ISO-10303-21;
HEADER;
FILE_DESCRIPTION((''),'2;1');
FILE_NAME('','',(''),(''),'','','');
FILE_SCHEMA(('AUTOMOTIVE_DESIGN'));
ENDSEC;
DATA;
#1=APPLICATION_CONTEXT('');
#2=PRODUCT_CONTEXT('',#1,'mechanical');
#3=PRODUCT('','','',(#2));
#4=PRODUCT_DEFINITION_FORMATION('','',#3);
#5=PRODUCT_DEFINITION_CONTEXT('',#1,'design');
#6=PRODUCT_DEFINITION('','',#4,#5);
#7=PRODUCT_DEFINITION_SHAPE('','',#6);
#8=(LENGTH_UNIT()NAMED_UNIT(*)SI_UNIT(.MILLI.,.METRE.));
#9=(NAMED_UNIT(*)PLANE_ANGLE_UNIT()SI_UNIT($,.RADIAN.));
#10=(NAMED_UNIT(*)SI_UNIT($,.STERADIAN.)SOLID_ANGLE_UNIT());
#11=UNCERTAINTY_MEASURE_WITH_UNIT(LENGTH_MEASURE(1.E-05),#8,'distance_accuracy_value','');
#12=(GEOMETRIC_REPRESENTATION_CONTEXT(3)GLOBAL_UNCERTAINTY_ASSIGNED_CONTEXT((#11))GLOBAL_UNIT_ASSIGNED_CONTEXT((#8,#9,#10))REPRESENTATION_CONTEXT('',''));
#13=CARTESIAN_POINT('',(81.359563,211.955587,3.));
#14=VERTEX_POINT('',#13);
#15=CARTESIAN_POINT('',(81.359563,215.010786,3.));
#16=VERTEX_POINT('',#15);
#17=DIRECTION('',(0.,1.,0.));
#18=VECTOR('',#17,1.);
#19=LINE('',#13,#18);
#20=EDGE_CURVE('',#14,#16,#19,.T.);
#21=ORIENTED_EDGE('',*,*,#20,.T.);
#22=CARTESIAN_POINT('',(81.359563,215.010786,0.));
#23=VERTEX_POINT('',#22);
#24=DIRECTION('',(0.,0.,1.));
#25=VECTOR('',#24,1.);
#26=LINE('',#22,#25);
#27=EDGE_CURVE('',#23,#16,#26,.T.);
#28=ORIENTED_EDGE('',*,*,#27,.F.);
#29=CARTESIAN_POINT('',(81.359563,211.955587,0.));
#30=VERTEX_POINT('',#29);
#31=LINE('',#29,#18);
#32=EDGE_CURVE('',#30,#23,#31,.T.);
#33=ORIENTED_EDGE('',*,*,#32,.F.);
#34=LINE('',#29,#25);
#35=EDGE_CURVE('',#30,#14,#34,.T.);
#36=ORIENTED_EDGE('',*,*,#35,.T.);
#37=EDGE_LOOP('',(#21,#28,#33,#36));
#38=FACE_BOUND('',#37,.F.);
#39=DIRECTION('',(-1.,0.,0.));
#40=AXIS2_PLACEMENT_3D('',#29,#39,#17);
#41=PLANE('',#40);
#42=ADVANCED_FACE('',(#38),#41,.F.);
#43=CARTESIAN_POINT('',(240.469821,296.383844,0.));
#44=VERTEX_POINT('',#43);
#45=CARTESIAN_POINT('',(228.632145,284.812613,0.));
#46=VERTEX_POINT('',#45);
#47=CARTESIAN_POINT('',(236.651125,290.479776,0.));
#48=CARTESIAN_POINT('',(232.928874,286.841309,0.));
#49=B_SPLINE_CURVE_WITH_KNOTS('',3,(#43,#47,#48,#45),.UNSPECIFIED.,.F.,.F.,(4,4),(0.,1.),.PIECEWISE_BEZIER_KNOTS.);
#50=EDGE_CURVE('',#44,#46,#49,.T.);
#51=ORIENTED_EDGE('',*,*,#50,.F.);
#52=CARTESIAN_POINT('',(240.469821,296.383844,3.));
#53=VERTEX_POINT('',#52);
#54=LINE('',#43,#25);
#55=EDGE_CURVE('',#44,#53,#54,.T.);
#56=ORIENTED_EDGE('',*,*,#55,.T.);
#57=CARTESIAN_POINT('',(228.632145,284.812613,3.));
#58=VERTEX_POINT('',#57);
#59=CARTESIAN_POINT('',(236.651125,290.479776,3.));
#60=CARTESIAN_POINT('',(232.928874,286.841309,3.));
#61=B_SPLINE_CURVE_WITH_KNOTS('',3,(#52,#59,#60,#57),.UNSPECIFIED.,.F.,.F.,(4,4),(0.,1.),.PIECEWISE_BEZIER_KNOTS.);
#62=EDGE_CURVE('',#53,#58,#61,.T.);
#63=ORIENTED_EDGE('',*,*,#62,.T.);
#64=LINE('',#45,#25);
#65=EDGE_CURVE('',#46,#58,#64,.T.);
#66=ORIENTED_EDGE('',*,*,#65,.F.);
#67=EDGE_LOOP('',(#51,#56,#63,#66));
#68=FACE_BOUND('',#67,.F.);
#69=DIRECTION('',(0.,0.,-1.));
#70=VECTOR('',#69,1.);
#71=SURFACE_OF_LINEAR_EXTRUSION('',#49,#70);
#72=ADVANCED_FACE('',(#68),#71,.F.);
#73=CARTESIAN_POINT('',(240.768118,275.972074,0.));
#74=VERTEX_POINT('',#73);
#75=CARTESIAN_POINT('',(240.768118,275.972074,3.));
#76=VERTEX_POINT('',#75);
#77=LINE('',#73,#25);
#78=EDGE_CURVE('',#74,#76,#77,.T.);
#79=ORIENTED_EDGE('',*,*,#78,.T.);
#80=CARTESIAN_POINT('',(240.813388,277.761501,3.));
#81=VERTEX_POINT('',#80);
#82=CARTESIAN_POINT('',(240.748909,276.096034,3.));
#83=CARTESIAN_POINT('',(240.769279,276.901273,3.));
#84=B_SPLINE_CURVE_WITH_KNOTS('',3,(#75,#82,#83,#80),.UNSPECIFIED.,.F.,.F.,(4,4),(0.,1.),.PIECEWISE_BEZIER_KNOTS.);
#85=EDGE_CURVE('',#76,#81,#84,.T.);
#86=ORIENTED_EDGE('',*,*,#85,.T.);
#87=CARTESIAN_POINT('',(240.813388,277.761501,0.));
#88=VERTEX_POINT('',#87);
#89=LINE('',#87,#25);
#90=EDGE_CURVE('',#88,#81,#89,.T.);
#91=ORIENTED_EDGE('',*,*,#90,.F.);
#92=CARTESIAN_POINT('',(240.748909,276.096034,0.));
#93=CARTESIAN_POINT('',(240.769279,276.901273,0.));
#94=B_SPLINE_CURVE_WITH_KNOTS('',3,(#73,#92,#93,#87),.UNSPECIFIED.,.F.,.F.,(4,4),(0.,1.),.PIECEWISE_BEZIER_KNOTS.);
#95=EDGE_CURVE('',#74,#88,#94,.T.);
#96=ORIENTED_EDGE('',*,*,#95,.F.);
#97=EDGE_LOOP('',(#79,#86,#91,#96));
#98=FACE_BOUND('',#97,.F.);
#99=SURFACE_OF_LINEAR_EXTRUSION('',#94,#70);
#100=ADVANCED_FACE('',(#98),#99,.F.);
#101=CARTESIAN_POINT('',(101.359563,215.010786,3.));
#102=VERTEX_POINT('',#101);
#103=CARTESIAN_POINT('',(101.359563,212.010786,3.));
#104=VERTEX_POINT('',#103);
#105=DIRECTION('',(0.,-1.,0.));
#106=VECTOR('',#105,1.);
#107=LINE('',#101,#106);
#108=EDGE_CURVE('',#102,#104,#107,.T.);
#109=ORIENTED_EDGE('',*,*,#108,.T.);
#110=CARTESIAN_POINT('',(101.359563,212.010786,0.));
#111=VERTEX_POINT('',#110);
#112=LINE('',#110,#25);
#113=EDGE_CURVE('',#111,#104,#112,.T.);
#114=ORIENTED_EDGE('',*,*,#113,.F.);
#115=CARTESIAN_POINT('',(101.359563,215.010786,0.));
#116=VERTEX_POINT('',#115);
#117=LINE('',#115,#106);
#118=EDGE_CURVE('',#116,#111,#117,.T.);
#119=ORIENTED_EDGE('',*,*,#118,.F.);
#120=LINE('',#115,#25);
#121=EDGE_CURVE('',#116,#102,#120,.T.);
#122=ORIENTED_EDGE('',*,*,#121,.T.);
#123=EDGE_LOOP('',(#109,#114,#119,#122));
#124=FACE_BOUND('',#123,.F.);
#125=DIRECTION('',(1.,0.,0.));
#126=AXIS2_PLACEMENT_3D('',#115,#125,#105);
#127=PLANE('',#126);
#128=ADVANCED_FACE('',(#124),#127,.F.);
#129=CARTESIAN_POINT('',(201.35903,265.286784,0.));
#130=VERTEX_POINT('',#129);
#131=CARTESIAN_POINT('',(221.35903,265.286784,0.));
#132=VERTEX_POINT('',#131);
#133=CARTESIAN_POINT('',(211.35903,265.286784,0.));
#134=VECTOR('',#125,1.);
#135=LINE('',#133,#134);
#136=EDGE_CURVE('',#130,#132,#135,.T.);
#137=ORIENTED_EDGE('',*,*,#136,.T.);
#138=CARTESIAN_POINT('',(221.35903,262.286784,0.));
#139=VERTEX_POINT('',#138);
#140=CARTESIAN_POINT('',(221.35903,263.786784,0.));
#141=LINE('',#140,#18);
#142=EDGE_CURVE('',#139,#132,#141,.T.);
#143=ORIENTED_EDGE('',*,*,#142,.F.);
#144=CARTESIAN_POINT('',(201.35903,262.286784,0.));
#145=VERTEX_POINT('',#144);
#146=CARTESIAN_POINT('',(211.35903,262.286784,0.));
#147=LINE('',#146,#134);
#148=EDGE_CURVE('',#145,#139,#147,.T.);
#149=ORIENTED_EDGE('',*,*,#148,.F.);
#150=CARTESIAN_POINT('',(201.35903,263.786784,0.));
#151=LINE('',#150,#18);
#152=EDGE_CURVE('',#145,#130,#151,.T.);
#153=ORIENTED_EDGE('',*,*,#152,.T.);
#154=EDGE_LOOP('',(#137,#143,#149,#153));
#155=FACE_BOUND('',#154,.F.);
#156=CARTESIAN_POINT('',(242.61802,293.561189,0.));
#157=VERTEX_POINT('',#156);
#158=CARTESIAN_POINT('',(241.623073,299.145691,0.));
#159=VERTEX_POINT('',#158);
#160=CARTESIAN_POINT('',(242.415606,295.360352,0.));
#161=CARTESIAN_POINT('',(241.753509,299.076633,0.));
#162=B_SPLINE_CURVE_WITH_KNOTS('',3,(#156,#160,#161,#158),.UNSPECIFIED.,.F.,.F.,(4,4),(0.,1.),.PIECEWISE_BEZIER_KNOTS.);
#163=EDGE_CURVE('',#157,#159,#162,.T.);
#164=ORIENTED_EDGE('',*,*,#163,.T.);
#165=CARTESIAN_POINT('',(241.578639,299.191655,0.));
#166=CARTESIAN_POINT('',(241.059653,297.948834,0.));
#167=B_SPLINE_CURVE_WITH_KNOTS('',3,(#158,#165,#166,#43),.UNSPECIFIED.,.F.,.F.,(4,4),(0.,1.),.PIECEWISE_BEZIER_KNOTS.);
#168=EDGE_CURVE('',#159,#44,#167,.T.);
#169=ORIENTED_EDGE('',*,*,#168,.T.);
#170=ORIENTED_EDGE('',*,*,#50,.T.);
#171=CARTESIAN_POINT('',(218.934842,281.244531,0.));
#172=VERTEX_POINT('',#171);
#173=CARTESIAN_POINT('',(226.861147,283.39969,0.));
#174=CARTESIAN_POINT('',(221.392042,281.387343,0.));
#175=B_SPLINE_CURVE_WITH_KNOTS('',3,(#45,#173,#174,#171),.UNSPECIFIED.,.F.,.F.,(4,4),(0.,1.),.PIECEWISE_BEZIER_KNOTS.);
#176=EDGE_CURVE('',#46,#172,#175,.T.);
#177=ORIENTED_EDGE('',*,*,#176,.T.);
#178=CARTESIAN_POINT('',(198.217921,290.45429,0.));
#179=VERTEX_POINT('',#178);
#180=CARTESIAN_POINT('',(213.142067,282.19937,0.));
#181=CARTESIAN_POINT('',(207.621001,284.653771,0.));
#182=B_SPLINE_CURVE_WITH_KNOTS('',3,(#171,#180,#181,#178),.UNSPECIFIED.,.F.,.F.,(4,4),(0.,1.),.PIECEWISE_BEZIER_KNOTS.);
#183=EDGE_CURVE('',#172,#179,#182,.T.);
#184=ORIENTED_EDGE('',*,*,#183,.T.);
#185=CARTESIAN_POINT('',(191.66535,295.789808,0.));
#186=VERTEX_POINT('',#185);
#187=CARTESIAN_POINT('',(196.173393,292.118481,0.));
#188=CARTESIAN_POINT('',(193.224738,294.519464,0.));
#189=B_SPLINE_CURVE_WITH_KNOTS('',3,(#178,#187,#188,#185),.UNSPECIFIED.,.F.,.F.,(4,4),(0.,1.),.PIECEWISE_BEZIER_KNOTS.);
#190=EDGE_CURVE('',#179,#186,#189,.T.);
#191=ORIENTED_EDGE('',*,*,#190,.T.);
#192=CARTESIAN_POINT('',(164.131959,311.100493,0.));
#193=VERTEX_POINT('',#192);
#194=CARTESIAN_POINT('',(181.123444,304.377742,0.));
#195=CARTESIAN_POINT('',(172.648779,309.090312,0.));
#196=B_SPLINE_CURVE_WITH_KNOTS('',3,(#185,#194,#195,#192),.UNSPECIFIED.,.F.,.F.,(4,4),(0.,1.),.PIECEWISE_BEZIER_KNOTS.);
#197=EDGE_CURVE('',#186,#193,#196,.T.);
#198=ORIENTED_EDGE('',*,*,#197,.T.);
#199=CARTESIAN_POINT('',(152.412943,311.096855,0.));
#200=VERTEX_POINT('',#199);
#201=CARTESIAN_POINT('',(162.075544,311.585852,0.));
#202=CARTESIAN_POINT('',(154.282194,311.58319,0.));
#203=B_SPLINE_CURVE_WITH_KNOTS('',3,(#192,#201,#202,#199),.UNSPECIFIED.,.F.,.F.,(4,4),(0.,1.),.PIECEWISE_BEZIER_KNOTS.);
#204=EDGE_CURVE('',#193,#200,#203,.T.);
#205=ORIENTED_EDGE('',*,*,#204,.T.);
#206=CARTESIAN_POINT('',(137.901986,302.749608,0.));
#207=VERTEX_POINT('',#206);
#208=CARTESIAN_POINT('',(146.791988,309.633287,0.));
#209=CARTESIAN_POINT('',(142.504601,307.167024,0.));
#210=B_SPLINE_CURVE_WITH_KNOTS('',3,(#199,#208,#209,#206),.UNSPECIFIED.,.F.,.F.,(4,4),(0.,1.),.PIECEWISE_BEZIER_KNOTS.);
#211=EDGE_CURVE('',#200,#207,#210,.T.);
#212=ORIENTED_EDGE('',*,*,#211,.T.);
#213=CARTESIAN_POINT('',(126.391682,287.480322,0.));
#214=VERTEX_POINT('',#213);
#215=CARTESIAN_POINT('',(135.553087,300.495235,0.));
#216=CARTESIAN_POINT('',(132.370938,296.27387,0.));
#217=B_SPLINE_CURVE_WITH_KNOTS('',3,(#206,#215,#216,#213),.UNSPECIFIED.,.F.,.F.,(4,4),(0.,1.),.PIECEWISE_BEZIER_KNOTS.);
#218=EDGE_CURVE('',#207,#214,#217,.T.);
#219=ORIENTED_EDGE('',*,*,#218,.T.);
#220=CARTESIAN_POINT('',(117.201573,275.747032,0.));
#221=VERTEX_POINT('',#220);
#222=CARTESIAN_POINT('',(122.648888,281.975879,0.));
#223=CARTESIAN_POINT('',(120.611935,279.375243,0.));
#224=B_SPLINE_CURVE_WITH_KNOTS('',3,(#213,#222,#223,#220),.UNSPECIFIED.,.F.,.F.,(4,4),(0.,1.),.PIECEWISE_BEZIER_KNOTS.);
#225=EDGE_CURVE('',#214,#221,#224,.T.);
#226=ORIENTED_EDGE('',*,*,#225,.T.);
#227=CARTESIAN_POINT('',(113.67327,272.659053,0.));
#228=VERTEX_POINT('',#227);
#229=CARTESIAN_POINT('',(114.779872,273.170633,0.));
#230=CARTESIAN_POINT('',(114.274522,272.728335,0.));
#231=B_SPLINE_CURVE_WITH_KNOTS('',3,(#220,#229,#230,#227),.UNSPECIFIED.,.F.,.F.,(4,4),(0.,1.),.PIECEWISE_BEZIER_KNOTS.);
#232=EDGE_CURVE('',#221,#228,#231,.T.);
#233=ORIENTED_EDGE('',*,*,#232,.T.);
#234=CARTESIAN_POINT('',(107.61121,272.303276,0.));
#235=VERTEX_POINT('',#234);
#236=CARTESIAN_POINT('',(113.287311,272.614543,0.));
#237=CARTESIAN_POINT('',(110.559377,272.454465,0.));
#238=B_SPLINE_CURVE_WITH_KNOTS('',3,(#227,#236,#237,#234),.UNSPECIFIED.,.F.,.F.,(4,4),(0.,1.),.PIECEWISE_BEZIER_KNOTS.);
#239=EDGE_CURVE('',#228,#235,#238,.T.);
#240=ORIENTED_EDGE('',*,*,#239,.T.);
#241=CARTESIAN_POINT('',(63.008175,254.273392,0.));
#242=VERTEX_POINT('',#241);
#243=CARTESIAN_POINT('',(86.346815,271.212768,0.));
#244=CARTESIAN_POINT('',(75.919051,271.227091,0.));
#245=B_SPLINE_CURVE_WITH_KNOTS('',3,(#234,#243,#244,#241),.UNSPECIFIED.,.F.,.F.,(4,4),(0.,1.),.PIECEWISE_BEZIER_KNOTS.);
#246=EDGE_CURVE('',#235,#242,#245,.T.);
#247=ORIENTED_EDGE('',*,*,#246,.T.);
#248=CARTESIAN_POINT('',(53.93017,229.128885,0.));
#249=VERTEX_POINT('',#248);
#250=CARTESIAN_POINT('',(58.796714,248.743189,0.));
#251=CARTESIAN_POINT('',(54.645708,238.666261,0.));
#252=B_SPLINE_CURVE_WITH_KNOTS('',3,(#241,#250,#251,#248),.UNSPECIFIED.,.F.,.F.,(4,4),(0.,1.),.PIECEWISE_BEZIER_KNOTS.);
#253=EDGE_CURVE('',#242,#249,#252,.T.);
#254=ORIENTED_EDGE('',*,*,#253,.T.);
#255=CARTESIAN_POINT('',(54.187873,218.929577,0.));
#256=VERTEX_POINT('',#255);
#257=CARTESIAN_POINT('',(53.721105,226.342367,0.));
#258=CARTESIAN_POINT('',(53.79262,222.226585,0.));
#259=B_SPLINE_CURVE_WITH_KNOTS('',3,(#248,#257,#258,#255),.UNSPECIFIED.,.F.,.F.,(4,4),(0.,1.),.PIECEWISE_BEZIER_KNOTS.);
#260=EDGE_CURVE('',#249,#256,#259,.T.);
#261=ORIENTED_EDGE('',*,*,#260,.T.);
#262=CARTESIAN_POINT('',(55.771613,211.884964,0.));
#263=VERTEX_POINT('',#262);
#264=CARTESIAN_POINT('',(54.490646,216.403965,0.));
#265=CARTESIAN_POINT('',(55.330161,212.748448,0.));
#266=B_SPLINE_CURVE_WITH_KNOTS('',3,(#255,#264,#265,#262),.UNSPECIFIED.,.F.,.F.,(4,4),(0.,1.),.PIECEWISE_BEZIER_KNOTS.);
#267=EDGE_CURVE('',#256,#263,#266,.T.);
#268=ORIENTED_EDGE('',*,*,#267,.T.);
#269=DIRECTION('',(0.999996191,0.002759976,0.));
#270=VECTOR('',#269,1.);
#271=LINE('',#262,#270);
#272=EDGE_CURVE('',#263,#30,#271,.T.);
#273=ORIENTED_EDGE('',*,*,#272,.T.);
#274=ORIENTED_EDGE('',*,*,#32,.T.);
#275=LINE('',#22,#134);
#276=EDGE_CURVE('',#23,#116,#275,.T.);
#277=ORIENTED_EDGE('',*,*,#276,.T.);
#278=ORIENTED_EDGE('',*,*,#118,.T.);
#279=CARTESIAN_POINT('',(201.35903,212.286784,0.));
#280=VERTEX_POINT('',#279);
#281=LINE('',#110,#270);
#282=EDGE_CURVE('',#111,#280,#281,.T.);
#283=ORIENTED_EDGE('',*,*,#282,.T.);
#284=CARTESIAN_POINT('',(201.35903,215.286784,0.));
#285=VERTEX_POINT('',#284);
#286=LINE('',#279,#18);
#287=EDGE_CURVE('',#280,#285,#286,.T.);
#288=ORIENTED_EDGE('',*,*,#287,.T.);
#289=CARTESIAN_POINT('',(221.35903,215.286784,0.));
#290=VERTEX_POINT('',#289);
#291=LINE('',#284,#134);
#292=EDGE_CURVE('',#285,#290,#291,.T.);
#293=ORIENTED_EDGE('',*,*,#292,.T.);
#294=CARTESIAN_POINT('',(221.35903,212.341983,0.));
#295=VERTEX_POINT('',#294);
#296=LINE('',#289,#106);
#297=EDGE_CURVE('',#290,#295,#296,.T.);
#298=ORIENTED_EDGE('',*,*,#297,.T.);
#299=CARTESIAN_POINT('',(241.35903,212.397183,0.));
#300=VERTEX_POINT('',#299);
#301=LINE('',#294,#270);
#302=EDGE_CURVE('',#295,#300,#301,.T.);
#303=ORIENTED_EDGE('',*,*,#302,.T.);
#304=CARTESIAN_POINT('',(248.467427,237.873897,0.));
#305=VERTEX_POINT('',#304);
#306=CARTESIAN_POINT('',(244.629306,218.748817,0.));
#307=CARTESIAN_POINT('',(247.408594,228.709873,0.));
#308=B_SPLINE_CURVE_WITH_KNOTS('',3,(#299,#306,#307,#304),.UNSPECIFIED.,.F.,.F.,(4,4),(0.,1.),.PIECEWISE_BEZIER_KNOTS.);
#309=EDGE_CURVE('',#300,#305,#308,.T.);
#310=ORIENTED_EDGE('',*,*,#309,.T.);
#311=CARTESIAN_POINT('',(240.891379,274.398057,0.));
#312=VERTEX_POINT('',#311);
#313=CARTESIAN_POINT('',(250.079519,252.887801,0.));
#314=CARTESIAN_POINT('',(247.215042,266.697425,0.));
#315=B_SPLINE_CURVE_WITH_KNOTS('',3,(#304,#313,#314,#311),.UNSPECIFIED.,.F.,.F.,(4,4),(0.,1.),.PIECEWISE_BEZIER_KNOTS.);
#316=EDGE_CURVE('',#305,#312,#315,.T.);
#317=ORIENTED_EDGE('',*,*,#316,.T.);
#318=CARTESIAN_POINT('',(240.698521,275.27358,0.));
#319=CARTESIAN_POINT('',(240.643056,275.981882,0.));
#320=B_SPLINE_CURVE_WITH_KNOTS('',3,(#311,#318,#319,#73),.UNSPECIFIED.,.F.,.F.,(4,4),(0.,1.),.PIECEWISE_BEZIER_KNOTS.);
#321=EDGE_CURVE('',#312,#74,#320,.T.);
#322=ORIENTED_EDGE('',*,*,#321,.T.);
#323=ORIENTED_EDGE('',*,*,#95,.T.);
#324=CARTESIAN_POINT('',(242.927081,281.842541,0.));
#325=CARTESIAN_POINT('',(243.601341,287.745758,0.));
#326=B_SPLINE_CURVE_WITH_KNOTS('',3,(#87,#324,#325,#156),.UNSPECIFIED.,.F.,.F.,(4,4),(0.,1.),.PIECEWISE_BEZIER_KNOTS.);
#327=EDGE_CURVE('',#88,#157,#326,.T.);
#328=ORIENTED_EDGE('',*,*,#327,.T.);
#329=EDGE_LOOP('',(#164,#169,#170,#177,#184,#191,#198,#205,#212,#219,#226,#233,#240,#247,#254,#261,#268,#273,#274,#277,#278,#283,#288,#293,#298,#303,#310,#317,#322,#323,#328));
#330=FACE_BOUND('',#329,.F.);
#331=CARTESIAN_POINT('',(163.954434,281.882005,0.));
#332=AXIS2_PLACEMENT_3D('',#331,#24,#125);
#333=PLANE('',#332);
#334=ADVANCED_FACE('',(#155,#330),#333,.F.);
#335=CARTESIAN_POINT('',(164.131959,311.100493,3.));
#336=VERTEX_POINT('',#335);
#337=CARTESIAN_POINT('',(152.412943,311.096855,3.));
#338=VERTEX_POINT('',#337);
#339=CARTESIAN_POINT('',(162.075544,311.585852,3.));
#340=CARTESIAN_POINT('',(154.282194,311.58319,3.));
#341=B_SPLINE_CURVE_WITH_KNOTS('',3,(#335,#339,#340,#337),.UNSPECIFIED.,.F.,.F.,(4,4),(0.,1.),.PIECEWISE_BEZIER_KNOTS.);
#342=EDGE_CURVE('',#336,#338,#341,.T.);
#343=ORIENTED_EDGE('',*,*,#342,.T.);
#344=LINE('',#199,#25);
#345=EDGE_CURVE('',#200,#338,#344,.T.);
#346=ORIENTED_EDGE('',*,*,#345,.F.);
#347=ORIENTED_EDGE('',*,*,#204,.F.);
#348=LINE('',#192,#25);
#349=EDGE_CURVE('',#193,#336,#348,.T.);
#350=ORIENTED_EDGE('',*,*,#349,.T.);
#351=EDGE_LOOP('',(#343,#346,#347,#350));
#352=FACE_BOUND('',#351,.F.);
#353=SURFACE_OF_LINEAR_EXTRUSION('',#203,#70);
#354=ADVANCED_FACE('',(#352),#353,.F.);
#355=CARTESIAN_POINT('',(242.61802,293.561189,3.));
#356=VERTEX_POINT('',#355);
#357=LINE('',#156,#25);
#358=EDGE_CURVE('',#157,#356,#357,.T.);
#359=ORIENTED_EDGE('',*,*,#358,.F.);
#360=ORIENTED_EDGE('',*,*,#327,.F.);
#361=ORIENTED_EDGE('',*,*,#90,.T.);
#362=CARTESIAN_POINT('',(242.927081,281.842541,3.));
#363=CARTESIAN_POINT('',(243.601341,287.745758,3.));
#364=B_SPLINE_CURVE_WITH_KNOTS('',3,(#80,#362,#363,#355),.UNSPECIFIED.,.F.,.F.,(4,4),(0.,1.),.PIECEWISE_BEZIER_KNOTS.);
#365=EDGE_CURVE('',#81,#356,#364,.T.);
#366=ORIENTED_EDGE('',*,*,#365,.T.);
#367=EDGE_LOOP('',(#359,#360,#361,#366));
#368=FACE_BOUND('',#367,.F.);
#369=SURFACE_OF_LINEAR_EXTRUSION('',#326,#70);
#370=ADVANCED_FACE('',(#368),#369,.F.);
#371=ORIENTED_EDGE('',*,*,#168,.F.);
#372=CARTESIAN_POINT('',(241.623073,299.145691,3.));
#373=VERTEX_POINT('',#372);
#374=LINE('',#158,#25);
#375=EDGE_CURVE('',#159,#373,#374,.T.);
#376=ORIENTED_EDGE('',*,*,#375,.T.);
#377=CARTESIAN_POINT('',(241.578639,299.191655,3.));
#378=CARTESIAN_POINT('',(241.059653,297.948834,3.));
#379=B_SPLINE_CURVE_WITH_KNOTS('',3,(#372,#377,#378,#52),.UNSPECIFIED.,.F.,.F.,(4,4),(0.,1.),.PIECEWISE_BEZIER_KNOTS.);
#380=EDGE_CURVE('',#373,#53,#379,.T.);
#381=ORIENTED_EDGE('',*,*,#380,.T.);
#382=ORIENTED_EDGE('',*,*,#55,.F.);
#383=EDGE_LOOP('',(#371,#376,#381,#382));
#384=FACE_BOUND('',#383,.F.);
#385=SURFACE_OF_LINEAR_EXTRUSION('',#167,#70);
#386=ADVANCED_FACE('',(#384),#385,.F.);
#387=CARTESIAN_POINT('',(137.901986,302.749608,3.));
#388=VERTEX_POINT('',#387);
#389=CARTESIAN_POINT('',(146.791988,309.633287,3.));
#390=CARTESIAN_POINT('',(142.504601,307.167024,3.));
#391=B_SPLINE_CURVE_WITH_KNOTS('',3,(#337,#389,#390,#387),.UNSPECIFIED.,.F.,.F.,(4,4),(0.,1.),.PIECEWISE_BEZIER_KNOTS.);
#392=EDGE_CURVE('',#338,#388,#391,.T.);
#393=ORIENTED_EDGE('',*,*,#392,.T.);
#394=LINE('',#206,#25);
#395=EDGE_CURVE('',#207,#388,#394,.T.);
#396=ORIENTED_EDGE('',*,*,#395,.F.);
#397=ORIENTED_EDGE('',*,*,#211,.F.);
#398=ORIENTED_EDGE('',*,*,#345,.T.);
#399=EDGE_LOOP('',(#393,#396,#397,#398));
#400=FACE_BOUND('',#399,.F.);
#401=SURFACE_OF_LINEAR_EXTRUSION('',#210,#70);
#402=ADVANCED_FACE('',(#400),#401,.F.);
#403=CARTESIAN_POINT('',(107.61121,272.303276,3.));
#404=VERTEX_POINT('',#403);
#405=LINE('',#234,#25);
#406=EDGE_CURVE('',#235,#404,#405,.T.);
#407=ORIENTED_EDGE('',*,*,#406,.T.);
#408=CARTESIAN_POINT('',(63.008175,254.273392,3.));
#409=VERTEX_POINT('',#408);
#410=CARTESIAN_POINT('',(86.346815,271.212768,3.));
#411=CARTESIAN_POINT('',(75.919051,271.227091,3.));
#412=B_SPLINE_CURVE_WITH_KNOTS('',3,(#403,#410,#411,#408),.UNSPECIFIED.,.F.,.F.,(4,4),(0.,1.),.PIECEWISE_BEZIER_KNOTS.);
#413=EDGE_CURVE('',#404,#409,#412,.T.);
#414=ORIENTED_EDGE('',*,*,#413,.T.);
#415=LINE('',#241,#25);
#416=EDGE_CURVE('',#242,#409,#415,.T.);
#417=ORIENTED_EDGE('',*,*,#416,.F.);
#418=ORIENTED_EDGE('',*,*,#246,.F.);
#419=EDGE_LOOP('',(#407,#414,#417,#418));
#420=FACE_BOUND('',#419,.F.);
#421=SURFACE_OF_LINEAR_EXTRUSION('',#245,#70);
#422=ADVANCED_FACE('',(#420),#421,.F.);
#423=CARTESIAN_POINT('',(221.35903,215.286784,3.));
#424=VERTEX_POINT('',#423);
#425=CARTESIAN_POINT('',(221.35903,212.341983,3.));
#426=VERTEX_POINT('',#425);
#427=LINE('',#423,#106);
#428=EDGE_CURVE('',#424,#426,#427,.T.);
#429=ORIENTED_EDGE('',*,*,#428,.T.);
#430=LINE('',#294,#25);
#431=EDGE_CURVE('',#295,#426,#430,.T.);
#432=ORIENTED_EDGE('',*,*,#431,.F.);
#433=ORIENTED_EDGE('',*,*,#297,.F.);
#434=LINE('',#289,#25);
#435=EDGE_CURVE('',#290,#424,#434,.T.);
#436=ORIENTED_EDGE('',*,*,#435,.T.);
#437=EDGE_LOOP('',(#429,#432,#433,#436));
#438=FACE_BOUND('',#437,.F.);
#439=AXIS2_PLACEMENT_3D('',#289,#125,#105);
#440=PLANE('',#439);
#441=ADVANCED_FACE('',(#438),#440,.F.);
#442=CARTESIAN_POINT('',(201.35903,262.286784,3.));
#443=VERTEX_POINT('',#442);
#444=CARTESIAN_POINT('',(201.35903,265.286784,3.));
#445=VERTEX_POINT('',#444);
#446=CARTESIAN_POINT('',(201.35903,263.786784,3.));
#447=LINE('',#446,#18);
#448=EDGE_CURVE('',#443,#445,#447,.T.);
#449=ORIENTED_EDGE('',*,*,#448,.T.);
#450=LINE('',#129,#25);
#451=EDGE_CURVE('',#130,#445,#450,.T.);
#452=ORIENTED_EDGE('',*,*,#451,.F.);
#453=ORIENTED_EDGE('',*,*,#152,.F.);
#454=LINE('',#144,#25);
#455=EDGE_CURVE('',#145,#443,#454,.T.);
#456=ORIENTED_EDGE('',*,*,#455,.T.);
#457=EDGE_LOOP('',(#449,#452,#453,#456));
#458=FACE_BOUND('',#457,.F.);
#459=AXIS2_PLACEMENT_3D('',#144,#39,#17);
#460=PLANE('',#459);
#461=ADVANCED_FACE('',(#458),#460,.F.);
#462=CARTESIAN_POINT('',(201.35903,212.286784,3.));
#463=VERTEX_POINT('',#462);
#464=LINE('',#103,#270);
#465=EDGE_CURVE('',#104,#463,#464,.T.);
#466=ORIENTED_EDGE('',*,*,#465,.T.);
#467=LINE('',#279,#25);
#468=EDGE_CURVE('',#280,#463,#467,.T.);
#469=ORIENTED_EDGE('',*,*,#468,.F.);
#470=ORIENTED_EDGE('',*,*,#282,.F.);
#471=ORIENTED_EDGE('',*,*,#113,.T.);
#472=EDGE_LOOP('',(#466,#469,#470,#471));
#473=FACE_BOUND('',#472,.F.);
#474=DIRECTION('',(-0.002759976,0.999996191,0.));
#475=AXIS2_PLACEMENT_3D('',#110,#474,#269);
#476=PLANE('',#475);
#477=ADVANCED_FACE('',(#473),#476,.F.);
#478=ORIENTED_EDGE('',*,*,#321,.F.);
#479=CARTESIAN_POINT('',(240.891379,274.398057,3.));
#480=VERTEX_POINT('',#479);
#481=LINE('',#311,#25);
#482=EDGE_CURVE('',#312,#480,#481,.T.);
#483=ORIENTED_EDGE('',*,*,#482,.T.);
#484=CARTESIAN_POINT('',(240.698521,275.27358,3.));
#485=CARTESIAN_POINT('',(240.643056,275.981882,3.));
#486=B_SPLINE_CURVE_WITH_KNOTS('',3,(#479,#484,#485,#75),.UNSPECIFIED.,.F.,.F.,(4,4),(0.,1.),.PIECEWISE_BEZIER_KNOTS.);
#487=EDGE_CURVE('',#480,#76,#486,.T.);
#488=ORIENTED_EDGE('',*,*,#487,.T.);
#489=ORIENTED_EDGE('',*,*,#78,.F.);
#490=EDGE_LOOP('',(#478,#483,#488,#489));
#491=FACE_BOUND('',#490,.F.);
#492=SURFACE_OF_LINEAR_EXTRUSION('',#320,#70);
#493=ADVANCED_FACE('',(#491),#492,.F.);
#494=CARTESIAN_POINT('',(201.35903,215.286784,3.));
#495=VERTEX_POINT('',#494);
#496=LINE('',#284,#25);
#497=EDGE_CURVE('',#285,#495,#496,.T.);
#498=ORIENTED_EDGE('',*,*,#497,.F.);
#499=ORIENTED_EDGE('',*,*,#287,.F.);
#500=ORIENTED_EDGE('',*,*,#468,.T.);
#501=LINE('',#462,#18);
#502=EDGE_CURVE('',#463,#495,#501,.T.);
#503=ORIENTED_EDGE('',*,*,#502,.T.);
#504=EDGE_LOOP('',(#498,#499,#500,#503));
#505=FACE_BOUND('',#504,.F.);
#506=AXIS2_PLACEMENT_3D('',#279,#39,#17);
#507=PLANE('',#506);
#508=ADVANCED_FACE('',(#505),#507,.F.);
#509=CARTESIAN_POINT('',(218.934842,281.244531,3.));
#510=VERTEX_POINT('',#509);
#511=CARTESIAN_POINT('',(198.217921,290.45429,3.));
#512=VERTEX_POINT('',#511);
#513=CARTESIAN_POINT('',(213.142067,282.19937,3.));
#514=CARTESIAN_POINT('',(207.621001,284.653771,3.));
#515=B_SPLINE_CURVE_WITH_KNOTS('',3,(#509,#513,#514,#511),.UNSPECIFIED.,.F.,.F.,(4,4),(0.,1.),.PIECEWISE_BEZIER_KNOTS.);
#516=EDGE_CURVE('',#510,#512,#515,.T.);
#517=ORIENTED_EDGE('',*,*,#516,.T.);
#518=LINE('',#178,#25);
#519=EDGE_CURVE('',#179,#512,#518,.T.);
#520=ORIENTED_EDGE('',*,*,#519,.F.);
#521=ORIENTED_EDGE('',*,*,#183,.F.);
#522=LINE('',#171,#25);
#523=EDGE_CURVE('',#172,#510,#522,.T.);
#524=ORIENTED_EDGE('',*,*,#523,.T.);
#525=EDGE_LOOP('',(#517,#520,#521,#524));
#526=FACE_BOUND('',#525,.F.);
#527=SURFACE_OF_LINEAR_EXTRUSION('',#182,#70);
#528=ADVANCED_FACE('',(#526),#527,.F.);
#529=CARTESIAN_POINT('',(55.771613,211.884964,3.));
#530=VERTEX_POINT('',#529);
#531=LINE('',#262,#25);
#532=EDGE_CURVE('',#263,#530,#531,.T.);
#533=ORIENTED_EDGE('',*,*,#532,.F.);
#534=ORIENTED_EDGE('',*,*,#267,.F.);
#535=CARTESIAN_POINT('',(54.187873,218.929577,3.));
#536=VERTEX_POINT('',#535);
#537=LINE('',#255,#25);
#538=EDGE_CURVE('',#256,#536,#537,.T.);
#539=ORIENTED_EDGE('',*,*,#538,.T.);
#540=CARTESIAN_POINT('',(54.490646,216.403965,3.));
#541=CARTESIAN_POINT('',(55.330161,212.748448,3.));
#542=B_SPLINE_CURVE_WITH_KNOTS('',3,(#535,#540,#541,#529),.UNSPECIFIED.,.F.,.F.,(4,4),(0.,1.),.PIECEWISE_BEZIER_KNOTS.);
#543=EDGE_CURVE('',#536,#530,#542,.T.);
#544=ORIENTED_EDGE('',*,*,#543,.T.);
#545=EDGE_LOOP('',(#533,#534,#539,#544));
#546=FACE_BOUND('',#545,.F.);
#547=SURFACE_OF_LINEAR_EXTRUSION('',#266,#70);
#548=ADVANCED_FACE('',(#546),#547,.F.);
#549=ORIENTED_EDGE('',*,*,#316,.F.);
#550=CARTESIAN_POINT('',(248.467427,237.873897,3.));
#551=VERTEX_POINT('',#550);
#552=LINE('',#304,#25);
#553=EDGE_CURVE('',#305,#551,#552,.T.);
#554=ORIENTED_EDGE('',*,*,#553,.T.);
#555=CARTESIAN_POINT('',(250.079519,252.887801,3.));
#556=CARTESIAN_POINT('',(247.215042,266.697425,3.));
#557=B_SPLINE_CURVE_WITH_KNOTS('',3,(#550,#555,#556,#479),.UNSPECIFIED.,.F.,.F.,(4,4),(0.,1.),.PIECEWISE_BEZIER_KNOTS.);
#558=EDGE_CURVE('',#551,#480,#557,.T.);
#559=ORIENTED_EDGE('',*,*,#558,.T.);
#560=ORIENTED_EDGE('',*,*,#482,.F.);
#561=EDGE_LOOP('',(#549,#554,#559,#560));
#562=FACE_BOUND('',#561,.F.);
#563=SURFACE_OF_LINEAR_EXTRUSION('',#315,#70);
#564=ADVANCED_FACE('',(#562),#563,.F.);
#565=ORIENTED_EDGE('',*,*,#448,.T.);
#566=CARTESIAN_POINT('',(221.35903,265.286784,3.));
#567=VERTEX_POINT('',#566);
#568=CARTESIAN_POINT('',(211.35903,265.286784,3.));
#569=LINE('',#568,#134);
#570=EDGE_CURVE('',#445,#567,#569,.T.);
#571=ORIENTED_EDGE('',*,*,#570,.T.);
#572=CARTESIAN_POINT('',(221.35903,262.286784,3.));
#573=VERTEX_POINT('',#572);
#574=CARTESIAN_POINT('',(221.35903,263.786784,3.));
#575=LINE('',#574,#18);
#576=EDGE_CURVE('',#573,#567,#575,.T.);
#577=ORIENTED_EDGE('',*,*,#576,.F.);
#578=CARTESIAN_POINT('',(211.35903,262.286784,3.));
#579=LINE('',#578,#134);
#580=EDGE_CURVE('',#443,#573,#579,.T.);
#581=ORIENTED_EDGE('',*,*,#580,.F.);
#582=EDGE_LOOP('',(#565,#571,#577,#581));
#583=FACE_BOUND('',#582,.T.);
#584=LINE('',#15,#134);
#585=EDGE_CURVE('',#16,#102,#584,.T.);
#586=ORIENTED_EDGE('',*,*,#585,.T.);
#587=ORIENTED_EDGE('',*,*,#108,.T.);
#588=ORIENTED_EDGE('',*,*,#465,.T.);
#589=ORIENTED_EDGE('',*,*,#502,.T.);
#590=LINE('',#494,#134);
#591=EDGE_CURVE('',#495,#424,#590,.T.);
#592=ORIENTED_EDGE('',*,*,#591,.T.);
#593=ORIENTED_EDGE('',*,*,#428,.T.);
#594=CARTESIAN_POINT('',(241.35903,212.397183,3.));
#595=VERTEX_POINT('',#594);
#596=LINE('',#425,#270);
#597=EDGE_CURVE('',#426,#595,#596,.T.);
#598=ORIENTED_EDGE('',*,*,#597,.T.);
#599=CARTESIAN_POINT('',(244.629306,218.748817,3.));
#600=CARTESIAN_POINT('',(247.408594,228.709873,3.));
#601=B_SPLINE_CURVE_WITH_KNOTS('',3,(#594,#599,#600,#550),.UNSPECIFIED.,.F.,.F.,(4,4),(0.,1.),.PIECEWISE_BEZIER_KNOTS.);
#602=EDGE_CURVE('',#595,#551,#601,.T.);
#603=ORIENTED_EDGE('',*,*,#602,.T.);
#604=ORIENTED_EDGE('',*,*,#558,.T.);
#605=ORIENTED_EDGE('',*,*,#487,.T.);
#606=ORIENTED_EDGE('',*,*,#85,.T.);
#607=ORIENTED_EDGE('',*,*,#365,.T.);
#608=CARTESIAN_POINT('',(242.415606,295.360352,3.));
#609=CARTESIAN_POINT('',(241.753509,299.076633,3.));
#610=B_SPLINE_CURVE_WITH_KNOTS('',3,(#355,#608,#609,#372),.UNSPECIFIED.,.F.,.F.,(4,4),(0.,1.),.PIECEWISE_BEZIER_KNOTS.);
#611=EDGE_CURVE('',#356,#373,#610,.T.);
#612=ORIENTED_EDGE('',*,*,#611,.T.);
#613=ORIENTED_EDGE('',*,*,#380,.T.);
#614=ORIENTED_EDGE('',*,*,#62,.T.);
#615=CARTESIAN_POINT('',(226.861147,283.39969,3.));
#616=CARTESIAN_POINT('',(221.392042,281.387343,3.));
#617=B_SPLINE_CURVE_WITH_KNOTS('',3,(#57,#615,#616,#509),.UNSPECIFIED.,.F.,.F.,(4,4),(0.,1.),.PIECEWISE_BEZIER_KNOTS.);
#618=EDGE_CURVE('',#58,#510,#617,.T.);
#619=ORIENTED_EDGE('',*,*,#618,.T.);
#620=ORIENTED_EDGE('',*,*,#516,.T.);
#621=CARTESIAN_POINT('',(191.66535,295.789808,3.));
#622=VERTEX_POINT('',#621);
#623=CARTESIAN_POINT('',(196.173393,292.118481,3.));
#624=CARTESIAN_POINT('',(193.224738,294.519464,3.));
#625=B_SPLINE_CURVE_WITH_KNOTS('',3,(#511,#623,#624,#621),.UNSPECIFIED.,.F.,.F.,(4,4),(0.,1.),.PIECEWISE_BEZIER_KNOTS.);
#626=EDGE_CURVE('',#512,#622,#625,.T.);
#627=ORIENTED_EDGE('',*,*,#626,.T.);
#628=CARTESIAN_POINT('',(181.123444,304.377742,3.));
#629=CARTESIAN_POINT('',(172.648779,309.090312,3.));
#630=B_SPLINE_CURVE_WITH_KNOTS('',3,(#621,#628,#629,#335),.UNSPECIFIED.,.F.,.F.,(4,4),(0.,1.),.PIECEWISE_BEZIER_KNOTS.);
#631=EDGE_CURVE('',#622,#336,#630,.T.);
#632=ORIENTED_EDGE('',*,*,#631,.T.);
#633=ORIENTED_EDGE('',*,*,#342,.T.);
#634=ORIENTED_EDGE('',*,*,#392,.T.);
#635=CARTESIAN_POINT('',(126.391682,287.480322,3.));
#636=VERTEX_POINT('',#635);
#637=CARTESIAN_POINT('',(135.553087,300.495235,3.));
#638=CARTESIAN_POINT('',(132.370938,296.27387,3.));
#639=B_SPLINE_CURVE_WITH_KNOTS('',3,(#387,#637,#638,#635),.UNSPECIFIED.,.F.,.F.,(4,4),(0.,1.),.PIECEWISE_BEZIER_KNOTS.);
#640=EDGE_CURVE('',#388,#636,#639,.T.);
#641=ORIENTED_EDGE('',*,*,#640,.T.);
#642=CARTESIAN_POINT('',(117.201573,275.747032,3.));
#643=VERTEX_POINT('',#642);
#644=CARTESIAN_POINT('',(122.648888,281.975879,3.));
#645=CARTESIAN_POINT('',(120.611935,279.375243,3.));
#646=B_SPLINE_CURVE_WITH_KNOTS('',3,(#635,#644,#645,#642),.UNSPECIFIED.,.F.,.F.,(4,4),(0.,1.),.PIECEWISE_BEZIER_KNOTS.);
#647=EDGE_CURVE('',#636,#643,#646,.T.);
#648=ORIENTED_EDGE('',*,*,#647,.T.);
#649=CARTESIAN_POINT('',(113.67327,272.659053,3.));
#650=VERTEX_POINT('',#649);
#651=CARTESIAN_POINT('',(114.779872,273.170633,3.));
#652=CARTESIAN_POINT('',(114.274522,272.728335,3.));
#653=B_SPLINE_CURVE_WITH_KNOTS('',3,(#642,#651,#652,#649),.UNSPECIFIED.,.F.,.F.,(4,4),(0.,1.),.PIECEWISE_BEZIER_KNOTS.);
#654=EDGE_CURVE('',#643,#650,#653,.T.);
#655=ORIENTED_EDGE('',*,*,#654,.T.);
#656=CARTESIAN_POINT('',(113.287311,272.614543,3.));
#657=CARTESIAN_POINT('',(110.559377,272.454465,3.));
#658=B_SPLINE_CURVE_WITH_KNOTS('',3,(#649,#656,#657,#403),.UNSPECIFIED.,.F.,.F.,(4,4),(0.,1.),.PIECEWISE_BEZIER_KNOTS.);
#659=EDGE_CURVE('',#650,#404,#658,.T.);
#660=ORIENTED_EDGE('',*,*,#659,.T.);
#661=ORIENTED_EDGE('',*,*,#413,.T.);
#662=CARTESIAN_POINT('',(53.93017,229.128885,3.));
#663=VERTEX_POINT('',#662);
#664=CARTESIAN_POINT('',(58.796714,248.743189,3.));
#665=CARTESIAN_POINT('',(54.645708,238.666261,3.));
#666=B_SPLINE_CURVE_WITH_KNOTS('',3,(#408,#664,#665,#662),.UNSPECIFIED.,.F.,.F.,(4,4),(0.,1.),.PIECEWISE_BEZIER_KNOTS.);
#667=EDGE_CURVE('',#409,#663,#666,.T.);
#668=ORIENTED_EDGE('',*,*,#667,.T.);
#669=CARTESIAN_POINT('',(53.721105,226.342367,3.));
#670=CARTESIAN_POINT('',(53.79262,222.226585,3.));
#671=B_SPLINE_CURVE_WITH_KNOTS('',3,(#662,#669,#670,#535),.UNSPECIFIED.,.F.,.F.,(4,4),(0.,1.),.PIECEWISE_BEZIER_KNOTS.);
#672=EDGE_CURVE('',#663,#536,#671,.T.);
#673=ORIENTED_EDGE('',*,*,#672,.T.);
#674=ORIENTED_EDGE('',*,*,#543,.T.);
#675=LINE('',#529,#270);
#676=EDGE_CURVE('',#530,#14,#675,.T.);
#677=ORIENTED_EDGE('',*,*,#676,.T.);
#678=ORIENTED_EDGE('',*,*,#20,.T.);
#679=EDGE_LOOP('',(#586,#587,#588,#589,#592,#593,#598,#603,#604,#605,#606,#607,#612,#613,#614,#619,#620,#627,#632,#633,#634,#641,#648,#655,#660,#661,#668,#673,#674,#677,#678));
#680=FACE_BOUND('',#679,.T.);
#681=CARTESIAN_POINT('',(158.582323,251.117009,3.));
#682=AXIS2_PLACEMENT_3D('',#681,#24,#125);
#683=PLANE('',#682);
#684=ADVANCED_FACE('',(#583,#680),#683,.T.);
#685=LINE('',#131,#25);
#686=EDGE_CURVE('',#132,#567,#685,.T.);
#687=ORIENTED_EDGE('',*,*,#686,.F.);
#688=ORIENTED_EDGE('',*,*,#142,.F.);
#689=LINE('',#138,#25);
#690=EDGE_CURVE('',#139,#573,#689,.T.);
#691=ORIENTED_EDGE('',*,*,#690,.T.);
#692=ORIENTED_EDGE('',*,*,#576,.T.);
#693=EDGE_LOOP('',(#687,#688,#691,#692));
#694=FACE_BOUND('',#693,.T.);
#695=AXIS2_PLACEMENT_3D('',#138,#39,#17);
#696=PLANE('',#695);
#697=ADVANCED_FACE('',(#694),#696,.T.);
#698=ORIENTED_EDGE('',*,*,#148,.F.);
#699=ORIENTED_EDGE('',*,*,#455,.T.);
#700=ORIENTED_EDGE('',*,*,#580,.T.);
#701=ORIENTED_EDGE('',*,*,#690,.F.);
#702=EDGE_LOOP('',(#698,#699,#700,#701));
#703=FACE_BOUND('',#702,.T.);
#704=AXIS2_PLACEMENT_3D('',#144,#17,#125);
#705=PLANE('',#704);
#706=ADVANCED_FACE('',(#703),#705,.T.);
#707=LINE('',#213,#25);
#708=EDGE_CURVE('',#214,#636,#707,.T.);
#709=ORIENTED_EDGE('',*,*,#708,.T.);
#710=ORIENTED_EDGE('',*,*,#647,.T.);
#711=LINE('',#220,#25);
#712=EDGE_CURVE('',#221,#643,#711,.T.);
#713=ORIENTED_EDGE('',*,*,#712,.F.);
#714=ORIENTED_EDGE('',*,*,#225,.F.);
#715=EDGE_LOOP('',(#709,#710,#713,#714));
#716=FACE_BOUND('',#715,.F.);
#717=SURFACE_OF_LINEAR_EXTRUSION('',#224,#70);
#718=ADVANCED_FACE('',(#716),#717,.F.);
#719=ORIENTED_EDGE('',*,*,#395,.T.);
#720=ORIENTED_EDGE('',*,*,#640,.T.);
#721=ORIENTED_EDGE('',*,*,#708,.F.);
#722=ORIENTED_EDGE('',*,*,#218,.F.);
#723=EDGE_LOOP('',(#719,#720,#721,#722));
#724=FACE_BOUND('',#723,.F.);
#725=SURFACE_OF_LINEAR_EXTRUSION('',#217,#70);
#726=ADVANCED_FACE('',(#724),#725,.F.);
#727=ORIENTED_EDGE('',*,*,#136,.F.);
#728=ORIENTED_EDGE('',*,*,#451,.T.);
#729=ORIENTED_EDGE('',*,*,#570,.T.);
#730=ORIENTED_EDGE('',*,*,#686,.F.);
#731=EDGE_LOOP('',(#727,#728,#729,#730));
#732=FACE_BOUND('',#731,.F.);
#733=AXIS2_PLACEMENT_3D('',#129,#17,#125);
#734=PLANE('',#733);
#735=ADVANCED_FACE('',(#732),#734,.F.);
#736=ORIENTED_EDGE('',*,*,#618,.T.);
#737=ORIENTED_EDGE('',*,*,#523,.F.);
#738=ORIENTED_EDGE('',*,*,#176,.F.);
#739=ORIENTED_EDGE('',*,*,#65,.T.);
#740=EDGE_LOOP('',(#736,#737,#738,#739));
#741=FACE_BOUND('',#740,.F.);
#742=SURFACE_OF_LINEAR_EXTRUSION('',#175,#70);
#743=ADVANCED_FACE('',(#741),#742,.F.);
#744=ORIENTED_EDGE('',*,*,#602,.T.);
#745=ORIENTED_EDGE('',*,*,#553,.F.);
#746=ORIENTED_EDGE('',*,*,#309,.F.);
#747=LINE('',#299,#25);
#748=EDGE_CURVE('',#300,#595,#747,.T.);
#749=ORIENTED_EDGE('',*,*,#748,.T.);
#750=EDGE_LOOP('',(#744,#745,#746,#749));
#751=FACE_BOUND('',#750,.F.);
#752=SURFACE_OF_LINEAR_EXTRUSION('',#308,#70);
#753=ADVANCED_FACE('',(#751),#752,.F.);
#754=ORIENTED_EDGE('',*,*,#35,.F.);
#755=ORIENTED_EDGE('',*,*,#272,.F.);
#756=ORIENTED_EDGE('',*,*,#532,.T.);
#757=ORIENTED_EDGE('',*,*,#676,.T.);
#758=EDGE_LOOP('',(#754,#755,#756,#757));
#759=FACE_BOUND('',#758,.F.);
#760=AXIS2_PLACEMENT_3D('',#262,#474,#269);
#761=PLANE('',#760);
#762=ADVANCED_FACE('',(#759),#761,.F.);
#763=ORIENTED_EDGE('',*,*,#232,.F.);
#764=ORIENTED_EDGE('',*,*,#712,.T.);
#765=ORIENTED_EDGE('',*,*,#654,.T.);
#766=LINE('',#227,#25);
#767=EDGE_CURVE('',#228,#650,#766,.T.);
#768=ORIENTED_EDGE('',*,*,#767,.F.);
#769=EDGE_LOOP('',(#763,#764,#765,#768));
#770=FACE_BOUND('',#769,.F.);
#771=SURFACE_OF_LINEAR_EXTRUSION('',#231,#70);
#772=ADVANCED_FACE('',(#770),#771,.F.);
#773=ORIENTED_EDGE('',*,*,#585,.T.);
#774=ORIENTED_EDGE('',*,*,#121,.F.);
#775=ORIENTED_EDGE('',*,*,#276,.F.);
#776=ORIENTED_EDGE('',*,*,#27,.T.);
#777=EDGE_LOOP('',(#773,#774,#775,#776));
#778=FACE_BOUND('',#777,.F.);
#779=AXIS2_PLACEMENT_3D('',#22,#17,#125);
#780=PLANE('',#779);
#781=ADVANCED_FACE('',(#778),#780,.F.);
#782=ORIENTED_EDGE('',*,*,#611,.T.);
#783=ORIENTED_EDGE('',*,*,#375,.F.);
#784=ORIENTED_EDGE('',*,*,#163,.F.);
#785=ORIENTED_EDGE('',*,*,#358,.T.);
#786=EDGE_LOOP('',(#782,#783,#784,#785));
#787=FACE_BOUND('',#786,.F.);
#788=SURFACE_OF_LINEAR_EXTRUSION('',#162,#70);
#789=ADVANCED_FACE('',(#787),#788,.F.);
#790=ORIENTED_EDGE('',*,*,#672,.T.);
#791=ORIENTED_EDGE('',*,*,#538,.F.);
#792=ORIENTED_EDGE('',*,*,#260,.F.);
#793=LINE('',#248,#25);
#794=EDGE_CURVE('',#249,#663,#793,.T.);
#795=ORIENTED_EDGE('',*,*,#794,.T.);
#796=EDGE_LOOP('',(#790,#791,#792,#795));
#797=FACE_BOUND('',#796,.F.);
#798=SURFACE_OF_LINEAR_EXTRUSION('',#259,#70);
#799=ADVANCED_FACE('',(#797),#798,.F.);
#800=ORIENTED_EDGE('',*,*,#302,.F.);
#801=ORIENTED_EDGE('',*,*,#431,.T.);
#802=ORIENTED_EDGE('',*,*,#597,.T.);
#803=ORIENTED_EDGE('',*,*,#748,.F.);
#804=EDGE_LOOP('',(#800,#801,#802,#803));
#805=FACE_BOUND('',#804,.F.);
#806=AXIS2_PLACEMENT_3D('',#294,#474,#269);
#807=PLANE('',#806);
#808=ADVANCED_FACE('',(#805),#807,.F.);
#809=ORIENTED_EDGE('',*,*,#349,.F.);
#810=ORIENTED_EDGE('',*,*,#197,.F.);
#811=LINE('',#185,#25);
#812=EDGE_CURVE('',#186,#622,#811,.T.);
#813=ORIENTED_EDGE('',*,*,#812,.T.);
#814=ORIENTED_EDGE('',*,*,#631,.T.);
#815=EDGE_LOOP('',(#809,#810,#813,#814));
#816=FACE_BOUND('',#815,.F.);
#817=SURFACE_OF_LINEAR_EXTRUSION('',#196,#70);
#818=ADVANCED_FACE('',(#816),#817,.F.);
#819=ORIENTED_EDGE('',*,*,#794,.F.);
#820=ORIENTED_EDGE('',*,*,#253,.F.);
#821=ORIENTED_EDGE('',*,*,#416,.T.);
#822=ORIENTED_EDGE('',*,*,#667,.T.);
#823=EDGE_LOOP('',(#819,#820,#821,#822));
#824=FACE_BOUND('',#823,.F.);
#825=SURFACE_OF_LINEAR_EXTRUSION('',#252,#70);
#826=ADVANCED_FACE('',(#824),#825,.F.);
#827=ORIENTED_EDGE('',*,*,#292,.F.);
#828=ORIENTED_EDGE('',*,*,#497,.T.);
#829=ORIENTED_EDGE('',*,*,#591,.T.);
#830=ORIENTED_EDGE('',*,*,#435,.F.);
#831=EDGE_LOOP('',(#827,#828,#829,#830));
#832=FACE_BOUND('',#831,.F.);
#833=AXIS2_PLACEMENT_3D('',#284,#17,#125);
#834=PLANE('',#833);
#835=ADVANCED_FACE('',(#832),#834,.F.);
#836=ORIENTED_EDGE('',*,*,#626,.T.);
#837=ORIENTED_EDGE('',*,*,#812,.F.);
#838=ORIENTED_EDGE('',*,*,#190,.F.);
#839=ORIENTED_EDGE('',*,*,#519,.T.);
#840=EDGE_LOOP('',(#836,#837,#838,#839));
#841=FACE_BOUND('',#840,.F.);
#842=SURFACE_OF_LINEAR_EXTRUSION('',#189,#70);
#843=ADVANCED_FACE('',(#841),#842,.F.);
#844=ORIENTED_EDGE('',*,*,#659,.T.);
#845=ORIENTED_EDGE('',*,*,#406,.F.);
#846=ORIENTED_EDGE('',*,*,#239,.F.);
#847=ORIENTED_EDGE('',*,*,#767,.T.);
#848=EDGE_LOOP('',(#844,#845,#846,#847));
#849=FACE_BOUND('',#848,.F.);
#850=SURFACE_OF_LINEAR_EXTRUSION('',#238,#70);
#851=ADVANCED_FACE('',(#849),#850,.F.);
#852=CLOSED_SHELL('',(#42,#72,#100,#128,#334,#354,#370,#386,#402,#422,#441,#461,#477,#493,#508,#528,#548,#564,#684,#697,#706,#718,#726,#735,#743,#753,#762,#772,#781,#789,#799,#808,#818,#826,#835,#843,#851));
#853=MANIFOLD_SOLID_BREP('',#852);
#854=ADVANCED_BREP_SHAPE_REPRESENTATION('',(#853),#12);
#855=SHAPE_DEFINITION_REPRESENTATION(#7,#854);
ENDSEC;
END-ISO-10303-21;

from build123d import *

# Parameters (mm, degrees)
SKETCH1_W           = 20
SKETCH1_H           = 3
BOSS_EXTRUDE1_DEPTH = 3


with BuildPart() as part:
    # Sketch1 → Boss-Extrude1 (new body)
    # profile 1 of 3: a face of its own
    with BuildSketch(Plane.XY):
        with BuildLine():
            add(Edge.make_bspline(
                [(240.469820829, 296.383844032), (236.651125345, 290.479775846), (232.928874324, 286.841309227), (228.632144795, 284.812613295)],
                knots=[0, 0, 0, 0, 1, 1, 1, 1], degree=3))
            add(Edge.make_bspline(
                [(228.632144795, 284.812613295), (226.861147306, 283.399689538), (221.392042444, 281.387343093), (218.93484187, 281.244531384)],
                knots=[0, 0, 0, 0, 1, 1, 1, 1], degree=3))
            add(Edge.make_bspline(
                [(218.93484187, 281.244531384), (213.142066592, 282.199369906), (207.621000721, 284.653770769), (198.217921477, 290.454290235)],
                knots=[0, 0, 0, 0, 1, 1, 1, 1], degree=3))
            add(Edge.make_bspline(
                [(198.217921477, 290.454290235), (196.173393477, 292.118481235), (193.224738477, 294.519464235), (191.665350477, 295.789808235)],
                knots=[0, 0, 0, 0, 1, 1, 1, 1], degree=3))
            add(Edge.make_bspline(
                [(191.665350477, 295.789808235), (181.123444477, 304.377742235), (172.648779477, 309.090312235), (164.131959477, 311.100493235)],
                knots=[0, 0, 0, 0, 1, 1, 1, 1], degree=3))
            add(Edge.make_bspline(
                [(164.131959477, 311.100493235), (162.075544477, 311.585852235), (154.282194477, 311.583190235), (152.412943477, 311.096855235)],
                knots=[0, 0, 0, 0, 1, 1, 1, 1], degree=3))
            add(Edge.make_bspline(
                [(152.412943477, 311.096855235), (146.791988477, 309.633287235), (142.504601477, 307.167024235), (137.901986477, 302.749608235)],
                knots=[0, 0, 0, 0, 1, 1, 1, 1], degree=3))
            add(Edge.make_bspline(
                [(137.901986477, 302.749608235), (135.553087477, 300.495235235), (132.370938477, 296.273870235), (126.391682477, 287.480322235)],
                knots=[0, 0, 0, 0, 1, 1, 1, 1], degree=3))
            add(Edge.make_bspline(
                [(126.391682477, 287.480322235), (122.648888477, 281.975879235), (120.611935477, 279.375243235), (117.201573477, 275.747032235)],
                knots=[0, 0, 0, 0, 1, 1, 1, 1], degree=3))
            add(Edge.make_bspline(
                [(117.201573477, 275.747032235), (114.779872477, 273.170633235), (114.274522477, 272.728335235), (113.673270477, 272.659053235)],
                knots=[0, 0, 0, 0, 1, 1, 1, 1], degree=3))
            add(Edge.make_bspline(
                [(113.673270477, 272.659053235), (113.287311477, 272.614543235), (110.559377477, 272.454465235), (107.611210477, 272.303276235)],
                knots=[0, 0, 0, 0, 1, 1, 1, 1], degree=3))
            add(Edge.make_bspline(
                [(107.611210477, 272.303276235), (86.346815477, 271.212768235), (75.919051477, 271.227091235), (63.008175477, 254.273392235)],
                knots=[0, 0, 0, 0, 1, 1, 1, 1], degree=3))
            add(Edge.make_bspline(
                [(63.008175477, 254.273392235), (58.796714477, 248.743189235), (54.645708477, 238.666261235), (53.930170477, 229.128885235)],
                knots=[0, 0, 0, 0, 1, 1, 1, 1], degree=3))
            add(Edge.make_bspline(
                [(53.930170477, 229.128885235), (53.721105477, 226.342367235), (53.792620477, 222.226585235), (54.187873477, 218.929577235)],
                knots=[0, 0, 0, 0, 1, 1, 1, 1], degree=3))
            add(Edge.make_bspline(
                [(54.187873477, 218.929577235), (54.490646477, 216.403965235), (55.330161477, 212.748448235), (55.771613477, 211.884964235)],
                knots=[0, 0, 0, 0, 1, 1, 1, 1], degree=3))
            Line((55.771613477, 211.884964235), (81.359563224, 211.955586631))
            Line((81.359563224, 211.955586631), (81.359563224, 215.010786361))
            Line((81.359563224, 215.010786361), (101.359563224, 215.010786361))
            Line((101.359563224, 215.010786361), (101.359563224, 212.010786361))
            Line((101.359563224, 212.010786361), (201.35903, 212.28678354))
            Line((201.35903, 212.28678354), (201.35903, 215.28678354))
            Line((201.35903, 215.28678354), (221.35903, 215.28678354))
            Line((221.35903, 215.28678354), (221.35903, 212.34198327))
            Line((221.35903, 212.34198327), (241.35903, 212.397183))
            add(Edge.make_bspline(
                [(241.35903, 212.397183), (244.629305861, 218.748817068), (247.40859442, 228.709873239), (248.46742676, 237.873897093)],
                knots=[0, 0, 0, 0, 1, 1, 1, 1], degree=3))
            add(Edge.make_bspline(
                [(248.46742676, 237.873897093), (250.079518862, 252.887800903), (247.215041867, 266.697425469), (240.891378893, 274.398057325)],
                knots=[0, 0, 0, 0, 1, 1, 1, 1], degree=3))
            add(Edge.make_bspline(
                [(240.891378893, 274.398057325), (240.698521086, 275.27358016), (240.643056085, 275.981882336), (240.76811836, 275.972073931)],
                knots=[0, 0, 0, 0, 1, 1, 1, 1], degree=3))
            add(Edge.make_bspline(
                [(240.76811836, 275.972073931), (240.748909131, 276.096033997), (240.769278751, 276.901273493), (240.813388464, 277.761500997)],
                knots=[0, 0, 0, 0, 1, 1, 1, 1], degree=3))
            add(Edge.make_bspline(
                [(240.813388464, 277.761500997), (242.927080797, 281.842540784), (243.601341236, 287.745758426), (242.61801967, 293.561188973)],
                knots=[0, 0, 0, 0, 1, 1, 1, 1], degree=3))
            add(Edge.make_bspline(
                [(242.61801967, 293.561188973), (242.415605619, 295.360351559), (241.753508901, 299.076632619), (241.623073366, 299.145691082)],
                knots=[0, 0, 0, 0, 1, 1, 1, 1], degree=3))
            add(Edge.make_bspline(
                [(241.623073366, 299.145691082), (241.578638706, 299.19165546), (241.059652967, 297.948834469), (240.469820829, 296.383844032)],
                knots=[0, 0, 0, 0, 1, 1, 1, 1], degree=3))
        make_face()
        with Locations((211.35903, 263.78678354)):
            Rectangle(SKETCH1_W, SKETCH1_H, mode=Mode.SUBTRACT)
        with BuildLine():
            add(Edge.make_bspline(
                [(201.843236026, 279.741376594), (201.523376635, 280.02936203), (200.901282099, 280.593624889), (199.543639419, 281.846281217), (197.721364001, 283.549658829), (195.33366628, 285.777696204), (191.919276726, 288.908047707), (187.264875178, 292.981443354), (181.210308448, 297.675476133), (174.816425919, 301.728836363), (168.187651337, 304.68610159), (162.530063372, 305.81688333), (157.984525923, 305.614260568), (153.530958932, 304.555467323), (148.375122164, 301.880565273), (142.705289246, 297.240779546), (137.461776484, 291.744535415), (132.597431172, 285.942234601), (128.850565667, 281.314306121), (126.048127718, 278.023842232), (124.052495255, 275.836492497), (122.490714258, 274.313065528), (121.53740178, 273.498180089), (121.111683759, 273.161071858), (120.789718866, 272.907682621), (119.931571273, 272.231329661), (118.510544623, 271.11196569), (117.254230449, 270.122097355), (116.625220784, 269.626522955)],
                knots=[-0.00190331, -0.00190331, -0.00190331, -0.00190331, 0.015021831, 0.031946973, 0.065797257, 0.09964754, 0.133497824, 0.201198391, 0.268898959, 0.336599526, 0.404300093, 0.47200066, 0.505850944, 0.539701228, 0.607401795, 0.675102362, 0.742802929, 0.810503496, 0.878204064, 0.912054347, 0.945904631, 0.979754915, 0.996680056, 1.000911342, 1.005142627, 1.013605198, 1.047455482, 1.081305765, 1.081305765, 1.081305765, 1.081305765], degree=3))
            Line((116.625220784, 269.626522955), (210.272280725, 269.626522955))
            Line((210.272280725, 269.626522955), (201.843236026, 279.741376594))
        make_face(mode=Mode.SUBTRACT)
    # profile 2 of 3: a face of its own
    with BuildSketch(Plane.XY):
        with BuildLine():
            Line((210.272280725, 269.626522955), (201.843236026, 279.741376594))
            add(Edge.make_bspline(
                [(201.843236026, 279.741376594), (201.523376635, 280.02936203), (200.901282099, 280.593624889), (199.543639419, 281.846281217), (197.721364001, 283.549658829), (195.33366628, 285.777696204), (191.919276726, 288.908047707), (187.264875178, 292.981443354), (181.210308448, 297.675476133), (174.816425919, 301.728836363), (168.187651337, 304.68610159), (162.530063372, 305.81688333), (157.984525923, 305.614260568), (153.530958932, 304.555467323), (148.375122164, 301.880565273), (142.705289246, 297.240779546), (137.461776484, 291.744535415), (132.597431172, 285.942234601), (128.850565667, 281.314306121), (126.048127718, 278.023842232), (124.052495255, 275.836492497), (122.490714258, 274.313065528), (121.53740178, 273.498180089), (121.111683759, 273.161071858), (120.789718866, 272.907682621), (119.931571273, 272.231329661), (118.510544623, 271.11196569), (117.254230449, 270.122097355), (116.625220784, 269.626522955)],
                knots=[-0.00190331, -0.00190331, -0.00190331, -0.00190331, 0.015021831, 0.031946973, 0.065797257, 0.09964754, 0.133497824, 0.201198391, 0.268898959, 0.336599526, 0.404300093, 0.47200066, 0.505850944, 0.539701228, 0.607401795, 0.675102362, 0.742802929, 0.810503496, 0.878204064, 0.912054347, 0.945904631, 0.979754915, 0.996680056, 1.000911342, 1.005142627, 1.013605198, 1.047455482, 1.081305765, 1.081305765, 1.081305765, 1.081305765], degree=3))
            Line((116.625220784, 269.626522955), (210.272280725, 269.626522955))
        make_face()
        with BuildLine():
            add(Edge.make_bspline(
                [(200.398528045, 278.350926301), (190.867543037, 286.932149658), (155.755536364, 324.252253924), (131.48134266, 278.784976047), (122.395449235, 271.626522955)],
                knots=[0, 0, 0, 0, 0.511040789, 1, 1, 1, 1], degree=3))
            Line((122.395449235, 271.626522955), (206.0021975, 271.626522955))
            Line((206.0021975, 271.626522955), (200.398528045, 278.350926301))
        make_face(mode=Mode.SUBTRACT)
    # profile 3 of 3: a face of its own
    with BuildSketch(Plane.XY):
        with BuildLine():
            Line((206.0021975, 271.626522955), (200.398528045, 278.350926301))
            add(Edge.make_bspline(
                [(200.398528045, 278.350926301), (190.867543037, 286.932149658), (155.755536364, 324.252253924), (131.48134266, 278.784976047), (122.395449235, 271.626522955)],
                knots=[0, 0, 0, 0, 0.511040789, 1, 1, 1, 1], degree=3))
            Line((122.395449235, 271.626522955), (206.0021975, 271.626522955))
        make_face()
    extrude(amount=BOSS_EXTRUDE1_DEPTH)


solid = part.part
